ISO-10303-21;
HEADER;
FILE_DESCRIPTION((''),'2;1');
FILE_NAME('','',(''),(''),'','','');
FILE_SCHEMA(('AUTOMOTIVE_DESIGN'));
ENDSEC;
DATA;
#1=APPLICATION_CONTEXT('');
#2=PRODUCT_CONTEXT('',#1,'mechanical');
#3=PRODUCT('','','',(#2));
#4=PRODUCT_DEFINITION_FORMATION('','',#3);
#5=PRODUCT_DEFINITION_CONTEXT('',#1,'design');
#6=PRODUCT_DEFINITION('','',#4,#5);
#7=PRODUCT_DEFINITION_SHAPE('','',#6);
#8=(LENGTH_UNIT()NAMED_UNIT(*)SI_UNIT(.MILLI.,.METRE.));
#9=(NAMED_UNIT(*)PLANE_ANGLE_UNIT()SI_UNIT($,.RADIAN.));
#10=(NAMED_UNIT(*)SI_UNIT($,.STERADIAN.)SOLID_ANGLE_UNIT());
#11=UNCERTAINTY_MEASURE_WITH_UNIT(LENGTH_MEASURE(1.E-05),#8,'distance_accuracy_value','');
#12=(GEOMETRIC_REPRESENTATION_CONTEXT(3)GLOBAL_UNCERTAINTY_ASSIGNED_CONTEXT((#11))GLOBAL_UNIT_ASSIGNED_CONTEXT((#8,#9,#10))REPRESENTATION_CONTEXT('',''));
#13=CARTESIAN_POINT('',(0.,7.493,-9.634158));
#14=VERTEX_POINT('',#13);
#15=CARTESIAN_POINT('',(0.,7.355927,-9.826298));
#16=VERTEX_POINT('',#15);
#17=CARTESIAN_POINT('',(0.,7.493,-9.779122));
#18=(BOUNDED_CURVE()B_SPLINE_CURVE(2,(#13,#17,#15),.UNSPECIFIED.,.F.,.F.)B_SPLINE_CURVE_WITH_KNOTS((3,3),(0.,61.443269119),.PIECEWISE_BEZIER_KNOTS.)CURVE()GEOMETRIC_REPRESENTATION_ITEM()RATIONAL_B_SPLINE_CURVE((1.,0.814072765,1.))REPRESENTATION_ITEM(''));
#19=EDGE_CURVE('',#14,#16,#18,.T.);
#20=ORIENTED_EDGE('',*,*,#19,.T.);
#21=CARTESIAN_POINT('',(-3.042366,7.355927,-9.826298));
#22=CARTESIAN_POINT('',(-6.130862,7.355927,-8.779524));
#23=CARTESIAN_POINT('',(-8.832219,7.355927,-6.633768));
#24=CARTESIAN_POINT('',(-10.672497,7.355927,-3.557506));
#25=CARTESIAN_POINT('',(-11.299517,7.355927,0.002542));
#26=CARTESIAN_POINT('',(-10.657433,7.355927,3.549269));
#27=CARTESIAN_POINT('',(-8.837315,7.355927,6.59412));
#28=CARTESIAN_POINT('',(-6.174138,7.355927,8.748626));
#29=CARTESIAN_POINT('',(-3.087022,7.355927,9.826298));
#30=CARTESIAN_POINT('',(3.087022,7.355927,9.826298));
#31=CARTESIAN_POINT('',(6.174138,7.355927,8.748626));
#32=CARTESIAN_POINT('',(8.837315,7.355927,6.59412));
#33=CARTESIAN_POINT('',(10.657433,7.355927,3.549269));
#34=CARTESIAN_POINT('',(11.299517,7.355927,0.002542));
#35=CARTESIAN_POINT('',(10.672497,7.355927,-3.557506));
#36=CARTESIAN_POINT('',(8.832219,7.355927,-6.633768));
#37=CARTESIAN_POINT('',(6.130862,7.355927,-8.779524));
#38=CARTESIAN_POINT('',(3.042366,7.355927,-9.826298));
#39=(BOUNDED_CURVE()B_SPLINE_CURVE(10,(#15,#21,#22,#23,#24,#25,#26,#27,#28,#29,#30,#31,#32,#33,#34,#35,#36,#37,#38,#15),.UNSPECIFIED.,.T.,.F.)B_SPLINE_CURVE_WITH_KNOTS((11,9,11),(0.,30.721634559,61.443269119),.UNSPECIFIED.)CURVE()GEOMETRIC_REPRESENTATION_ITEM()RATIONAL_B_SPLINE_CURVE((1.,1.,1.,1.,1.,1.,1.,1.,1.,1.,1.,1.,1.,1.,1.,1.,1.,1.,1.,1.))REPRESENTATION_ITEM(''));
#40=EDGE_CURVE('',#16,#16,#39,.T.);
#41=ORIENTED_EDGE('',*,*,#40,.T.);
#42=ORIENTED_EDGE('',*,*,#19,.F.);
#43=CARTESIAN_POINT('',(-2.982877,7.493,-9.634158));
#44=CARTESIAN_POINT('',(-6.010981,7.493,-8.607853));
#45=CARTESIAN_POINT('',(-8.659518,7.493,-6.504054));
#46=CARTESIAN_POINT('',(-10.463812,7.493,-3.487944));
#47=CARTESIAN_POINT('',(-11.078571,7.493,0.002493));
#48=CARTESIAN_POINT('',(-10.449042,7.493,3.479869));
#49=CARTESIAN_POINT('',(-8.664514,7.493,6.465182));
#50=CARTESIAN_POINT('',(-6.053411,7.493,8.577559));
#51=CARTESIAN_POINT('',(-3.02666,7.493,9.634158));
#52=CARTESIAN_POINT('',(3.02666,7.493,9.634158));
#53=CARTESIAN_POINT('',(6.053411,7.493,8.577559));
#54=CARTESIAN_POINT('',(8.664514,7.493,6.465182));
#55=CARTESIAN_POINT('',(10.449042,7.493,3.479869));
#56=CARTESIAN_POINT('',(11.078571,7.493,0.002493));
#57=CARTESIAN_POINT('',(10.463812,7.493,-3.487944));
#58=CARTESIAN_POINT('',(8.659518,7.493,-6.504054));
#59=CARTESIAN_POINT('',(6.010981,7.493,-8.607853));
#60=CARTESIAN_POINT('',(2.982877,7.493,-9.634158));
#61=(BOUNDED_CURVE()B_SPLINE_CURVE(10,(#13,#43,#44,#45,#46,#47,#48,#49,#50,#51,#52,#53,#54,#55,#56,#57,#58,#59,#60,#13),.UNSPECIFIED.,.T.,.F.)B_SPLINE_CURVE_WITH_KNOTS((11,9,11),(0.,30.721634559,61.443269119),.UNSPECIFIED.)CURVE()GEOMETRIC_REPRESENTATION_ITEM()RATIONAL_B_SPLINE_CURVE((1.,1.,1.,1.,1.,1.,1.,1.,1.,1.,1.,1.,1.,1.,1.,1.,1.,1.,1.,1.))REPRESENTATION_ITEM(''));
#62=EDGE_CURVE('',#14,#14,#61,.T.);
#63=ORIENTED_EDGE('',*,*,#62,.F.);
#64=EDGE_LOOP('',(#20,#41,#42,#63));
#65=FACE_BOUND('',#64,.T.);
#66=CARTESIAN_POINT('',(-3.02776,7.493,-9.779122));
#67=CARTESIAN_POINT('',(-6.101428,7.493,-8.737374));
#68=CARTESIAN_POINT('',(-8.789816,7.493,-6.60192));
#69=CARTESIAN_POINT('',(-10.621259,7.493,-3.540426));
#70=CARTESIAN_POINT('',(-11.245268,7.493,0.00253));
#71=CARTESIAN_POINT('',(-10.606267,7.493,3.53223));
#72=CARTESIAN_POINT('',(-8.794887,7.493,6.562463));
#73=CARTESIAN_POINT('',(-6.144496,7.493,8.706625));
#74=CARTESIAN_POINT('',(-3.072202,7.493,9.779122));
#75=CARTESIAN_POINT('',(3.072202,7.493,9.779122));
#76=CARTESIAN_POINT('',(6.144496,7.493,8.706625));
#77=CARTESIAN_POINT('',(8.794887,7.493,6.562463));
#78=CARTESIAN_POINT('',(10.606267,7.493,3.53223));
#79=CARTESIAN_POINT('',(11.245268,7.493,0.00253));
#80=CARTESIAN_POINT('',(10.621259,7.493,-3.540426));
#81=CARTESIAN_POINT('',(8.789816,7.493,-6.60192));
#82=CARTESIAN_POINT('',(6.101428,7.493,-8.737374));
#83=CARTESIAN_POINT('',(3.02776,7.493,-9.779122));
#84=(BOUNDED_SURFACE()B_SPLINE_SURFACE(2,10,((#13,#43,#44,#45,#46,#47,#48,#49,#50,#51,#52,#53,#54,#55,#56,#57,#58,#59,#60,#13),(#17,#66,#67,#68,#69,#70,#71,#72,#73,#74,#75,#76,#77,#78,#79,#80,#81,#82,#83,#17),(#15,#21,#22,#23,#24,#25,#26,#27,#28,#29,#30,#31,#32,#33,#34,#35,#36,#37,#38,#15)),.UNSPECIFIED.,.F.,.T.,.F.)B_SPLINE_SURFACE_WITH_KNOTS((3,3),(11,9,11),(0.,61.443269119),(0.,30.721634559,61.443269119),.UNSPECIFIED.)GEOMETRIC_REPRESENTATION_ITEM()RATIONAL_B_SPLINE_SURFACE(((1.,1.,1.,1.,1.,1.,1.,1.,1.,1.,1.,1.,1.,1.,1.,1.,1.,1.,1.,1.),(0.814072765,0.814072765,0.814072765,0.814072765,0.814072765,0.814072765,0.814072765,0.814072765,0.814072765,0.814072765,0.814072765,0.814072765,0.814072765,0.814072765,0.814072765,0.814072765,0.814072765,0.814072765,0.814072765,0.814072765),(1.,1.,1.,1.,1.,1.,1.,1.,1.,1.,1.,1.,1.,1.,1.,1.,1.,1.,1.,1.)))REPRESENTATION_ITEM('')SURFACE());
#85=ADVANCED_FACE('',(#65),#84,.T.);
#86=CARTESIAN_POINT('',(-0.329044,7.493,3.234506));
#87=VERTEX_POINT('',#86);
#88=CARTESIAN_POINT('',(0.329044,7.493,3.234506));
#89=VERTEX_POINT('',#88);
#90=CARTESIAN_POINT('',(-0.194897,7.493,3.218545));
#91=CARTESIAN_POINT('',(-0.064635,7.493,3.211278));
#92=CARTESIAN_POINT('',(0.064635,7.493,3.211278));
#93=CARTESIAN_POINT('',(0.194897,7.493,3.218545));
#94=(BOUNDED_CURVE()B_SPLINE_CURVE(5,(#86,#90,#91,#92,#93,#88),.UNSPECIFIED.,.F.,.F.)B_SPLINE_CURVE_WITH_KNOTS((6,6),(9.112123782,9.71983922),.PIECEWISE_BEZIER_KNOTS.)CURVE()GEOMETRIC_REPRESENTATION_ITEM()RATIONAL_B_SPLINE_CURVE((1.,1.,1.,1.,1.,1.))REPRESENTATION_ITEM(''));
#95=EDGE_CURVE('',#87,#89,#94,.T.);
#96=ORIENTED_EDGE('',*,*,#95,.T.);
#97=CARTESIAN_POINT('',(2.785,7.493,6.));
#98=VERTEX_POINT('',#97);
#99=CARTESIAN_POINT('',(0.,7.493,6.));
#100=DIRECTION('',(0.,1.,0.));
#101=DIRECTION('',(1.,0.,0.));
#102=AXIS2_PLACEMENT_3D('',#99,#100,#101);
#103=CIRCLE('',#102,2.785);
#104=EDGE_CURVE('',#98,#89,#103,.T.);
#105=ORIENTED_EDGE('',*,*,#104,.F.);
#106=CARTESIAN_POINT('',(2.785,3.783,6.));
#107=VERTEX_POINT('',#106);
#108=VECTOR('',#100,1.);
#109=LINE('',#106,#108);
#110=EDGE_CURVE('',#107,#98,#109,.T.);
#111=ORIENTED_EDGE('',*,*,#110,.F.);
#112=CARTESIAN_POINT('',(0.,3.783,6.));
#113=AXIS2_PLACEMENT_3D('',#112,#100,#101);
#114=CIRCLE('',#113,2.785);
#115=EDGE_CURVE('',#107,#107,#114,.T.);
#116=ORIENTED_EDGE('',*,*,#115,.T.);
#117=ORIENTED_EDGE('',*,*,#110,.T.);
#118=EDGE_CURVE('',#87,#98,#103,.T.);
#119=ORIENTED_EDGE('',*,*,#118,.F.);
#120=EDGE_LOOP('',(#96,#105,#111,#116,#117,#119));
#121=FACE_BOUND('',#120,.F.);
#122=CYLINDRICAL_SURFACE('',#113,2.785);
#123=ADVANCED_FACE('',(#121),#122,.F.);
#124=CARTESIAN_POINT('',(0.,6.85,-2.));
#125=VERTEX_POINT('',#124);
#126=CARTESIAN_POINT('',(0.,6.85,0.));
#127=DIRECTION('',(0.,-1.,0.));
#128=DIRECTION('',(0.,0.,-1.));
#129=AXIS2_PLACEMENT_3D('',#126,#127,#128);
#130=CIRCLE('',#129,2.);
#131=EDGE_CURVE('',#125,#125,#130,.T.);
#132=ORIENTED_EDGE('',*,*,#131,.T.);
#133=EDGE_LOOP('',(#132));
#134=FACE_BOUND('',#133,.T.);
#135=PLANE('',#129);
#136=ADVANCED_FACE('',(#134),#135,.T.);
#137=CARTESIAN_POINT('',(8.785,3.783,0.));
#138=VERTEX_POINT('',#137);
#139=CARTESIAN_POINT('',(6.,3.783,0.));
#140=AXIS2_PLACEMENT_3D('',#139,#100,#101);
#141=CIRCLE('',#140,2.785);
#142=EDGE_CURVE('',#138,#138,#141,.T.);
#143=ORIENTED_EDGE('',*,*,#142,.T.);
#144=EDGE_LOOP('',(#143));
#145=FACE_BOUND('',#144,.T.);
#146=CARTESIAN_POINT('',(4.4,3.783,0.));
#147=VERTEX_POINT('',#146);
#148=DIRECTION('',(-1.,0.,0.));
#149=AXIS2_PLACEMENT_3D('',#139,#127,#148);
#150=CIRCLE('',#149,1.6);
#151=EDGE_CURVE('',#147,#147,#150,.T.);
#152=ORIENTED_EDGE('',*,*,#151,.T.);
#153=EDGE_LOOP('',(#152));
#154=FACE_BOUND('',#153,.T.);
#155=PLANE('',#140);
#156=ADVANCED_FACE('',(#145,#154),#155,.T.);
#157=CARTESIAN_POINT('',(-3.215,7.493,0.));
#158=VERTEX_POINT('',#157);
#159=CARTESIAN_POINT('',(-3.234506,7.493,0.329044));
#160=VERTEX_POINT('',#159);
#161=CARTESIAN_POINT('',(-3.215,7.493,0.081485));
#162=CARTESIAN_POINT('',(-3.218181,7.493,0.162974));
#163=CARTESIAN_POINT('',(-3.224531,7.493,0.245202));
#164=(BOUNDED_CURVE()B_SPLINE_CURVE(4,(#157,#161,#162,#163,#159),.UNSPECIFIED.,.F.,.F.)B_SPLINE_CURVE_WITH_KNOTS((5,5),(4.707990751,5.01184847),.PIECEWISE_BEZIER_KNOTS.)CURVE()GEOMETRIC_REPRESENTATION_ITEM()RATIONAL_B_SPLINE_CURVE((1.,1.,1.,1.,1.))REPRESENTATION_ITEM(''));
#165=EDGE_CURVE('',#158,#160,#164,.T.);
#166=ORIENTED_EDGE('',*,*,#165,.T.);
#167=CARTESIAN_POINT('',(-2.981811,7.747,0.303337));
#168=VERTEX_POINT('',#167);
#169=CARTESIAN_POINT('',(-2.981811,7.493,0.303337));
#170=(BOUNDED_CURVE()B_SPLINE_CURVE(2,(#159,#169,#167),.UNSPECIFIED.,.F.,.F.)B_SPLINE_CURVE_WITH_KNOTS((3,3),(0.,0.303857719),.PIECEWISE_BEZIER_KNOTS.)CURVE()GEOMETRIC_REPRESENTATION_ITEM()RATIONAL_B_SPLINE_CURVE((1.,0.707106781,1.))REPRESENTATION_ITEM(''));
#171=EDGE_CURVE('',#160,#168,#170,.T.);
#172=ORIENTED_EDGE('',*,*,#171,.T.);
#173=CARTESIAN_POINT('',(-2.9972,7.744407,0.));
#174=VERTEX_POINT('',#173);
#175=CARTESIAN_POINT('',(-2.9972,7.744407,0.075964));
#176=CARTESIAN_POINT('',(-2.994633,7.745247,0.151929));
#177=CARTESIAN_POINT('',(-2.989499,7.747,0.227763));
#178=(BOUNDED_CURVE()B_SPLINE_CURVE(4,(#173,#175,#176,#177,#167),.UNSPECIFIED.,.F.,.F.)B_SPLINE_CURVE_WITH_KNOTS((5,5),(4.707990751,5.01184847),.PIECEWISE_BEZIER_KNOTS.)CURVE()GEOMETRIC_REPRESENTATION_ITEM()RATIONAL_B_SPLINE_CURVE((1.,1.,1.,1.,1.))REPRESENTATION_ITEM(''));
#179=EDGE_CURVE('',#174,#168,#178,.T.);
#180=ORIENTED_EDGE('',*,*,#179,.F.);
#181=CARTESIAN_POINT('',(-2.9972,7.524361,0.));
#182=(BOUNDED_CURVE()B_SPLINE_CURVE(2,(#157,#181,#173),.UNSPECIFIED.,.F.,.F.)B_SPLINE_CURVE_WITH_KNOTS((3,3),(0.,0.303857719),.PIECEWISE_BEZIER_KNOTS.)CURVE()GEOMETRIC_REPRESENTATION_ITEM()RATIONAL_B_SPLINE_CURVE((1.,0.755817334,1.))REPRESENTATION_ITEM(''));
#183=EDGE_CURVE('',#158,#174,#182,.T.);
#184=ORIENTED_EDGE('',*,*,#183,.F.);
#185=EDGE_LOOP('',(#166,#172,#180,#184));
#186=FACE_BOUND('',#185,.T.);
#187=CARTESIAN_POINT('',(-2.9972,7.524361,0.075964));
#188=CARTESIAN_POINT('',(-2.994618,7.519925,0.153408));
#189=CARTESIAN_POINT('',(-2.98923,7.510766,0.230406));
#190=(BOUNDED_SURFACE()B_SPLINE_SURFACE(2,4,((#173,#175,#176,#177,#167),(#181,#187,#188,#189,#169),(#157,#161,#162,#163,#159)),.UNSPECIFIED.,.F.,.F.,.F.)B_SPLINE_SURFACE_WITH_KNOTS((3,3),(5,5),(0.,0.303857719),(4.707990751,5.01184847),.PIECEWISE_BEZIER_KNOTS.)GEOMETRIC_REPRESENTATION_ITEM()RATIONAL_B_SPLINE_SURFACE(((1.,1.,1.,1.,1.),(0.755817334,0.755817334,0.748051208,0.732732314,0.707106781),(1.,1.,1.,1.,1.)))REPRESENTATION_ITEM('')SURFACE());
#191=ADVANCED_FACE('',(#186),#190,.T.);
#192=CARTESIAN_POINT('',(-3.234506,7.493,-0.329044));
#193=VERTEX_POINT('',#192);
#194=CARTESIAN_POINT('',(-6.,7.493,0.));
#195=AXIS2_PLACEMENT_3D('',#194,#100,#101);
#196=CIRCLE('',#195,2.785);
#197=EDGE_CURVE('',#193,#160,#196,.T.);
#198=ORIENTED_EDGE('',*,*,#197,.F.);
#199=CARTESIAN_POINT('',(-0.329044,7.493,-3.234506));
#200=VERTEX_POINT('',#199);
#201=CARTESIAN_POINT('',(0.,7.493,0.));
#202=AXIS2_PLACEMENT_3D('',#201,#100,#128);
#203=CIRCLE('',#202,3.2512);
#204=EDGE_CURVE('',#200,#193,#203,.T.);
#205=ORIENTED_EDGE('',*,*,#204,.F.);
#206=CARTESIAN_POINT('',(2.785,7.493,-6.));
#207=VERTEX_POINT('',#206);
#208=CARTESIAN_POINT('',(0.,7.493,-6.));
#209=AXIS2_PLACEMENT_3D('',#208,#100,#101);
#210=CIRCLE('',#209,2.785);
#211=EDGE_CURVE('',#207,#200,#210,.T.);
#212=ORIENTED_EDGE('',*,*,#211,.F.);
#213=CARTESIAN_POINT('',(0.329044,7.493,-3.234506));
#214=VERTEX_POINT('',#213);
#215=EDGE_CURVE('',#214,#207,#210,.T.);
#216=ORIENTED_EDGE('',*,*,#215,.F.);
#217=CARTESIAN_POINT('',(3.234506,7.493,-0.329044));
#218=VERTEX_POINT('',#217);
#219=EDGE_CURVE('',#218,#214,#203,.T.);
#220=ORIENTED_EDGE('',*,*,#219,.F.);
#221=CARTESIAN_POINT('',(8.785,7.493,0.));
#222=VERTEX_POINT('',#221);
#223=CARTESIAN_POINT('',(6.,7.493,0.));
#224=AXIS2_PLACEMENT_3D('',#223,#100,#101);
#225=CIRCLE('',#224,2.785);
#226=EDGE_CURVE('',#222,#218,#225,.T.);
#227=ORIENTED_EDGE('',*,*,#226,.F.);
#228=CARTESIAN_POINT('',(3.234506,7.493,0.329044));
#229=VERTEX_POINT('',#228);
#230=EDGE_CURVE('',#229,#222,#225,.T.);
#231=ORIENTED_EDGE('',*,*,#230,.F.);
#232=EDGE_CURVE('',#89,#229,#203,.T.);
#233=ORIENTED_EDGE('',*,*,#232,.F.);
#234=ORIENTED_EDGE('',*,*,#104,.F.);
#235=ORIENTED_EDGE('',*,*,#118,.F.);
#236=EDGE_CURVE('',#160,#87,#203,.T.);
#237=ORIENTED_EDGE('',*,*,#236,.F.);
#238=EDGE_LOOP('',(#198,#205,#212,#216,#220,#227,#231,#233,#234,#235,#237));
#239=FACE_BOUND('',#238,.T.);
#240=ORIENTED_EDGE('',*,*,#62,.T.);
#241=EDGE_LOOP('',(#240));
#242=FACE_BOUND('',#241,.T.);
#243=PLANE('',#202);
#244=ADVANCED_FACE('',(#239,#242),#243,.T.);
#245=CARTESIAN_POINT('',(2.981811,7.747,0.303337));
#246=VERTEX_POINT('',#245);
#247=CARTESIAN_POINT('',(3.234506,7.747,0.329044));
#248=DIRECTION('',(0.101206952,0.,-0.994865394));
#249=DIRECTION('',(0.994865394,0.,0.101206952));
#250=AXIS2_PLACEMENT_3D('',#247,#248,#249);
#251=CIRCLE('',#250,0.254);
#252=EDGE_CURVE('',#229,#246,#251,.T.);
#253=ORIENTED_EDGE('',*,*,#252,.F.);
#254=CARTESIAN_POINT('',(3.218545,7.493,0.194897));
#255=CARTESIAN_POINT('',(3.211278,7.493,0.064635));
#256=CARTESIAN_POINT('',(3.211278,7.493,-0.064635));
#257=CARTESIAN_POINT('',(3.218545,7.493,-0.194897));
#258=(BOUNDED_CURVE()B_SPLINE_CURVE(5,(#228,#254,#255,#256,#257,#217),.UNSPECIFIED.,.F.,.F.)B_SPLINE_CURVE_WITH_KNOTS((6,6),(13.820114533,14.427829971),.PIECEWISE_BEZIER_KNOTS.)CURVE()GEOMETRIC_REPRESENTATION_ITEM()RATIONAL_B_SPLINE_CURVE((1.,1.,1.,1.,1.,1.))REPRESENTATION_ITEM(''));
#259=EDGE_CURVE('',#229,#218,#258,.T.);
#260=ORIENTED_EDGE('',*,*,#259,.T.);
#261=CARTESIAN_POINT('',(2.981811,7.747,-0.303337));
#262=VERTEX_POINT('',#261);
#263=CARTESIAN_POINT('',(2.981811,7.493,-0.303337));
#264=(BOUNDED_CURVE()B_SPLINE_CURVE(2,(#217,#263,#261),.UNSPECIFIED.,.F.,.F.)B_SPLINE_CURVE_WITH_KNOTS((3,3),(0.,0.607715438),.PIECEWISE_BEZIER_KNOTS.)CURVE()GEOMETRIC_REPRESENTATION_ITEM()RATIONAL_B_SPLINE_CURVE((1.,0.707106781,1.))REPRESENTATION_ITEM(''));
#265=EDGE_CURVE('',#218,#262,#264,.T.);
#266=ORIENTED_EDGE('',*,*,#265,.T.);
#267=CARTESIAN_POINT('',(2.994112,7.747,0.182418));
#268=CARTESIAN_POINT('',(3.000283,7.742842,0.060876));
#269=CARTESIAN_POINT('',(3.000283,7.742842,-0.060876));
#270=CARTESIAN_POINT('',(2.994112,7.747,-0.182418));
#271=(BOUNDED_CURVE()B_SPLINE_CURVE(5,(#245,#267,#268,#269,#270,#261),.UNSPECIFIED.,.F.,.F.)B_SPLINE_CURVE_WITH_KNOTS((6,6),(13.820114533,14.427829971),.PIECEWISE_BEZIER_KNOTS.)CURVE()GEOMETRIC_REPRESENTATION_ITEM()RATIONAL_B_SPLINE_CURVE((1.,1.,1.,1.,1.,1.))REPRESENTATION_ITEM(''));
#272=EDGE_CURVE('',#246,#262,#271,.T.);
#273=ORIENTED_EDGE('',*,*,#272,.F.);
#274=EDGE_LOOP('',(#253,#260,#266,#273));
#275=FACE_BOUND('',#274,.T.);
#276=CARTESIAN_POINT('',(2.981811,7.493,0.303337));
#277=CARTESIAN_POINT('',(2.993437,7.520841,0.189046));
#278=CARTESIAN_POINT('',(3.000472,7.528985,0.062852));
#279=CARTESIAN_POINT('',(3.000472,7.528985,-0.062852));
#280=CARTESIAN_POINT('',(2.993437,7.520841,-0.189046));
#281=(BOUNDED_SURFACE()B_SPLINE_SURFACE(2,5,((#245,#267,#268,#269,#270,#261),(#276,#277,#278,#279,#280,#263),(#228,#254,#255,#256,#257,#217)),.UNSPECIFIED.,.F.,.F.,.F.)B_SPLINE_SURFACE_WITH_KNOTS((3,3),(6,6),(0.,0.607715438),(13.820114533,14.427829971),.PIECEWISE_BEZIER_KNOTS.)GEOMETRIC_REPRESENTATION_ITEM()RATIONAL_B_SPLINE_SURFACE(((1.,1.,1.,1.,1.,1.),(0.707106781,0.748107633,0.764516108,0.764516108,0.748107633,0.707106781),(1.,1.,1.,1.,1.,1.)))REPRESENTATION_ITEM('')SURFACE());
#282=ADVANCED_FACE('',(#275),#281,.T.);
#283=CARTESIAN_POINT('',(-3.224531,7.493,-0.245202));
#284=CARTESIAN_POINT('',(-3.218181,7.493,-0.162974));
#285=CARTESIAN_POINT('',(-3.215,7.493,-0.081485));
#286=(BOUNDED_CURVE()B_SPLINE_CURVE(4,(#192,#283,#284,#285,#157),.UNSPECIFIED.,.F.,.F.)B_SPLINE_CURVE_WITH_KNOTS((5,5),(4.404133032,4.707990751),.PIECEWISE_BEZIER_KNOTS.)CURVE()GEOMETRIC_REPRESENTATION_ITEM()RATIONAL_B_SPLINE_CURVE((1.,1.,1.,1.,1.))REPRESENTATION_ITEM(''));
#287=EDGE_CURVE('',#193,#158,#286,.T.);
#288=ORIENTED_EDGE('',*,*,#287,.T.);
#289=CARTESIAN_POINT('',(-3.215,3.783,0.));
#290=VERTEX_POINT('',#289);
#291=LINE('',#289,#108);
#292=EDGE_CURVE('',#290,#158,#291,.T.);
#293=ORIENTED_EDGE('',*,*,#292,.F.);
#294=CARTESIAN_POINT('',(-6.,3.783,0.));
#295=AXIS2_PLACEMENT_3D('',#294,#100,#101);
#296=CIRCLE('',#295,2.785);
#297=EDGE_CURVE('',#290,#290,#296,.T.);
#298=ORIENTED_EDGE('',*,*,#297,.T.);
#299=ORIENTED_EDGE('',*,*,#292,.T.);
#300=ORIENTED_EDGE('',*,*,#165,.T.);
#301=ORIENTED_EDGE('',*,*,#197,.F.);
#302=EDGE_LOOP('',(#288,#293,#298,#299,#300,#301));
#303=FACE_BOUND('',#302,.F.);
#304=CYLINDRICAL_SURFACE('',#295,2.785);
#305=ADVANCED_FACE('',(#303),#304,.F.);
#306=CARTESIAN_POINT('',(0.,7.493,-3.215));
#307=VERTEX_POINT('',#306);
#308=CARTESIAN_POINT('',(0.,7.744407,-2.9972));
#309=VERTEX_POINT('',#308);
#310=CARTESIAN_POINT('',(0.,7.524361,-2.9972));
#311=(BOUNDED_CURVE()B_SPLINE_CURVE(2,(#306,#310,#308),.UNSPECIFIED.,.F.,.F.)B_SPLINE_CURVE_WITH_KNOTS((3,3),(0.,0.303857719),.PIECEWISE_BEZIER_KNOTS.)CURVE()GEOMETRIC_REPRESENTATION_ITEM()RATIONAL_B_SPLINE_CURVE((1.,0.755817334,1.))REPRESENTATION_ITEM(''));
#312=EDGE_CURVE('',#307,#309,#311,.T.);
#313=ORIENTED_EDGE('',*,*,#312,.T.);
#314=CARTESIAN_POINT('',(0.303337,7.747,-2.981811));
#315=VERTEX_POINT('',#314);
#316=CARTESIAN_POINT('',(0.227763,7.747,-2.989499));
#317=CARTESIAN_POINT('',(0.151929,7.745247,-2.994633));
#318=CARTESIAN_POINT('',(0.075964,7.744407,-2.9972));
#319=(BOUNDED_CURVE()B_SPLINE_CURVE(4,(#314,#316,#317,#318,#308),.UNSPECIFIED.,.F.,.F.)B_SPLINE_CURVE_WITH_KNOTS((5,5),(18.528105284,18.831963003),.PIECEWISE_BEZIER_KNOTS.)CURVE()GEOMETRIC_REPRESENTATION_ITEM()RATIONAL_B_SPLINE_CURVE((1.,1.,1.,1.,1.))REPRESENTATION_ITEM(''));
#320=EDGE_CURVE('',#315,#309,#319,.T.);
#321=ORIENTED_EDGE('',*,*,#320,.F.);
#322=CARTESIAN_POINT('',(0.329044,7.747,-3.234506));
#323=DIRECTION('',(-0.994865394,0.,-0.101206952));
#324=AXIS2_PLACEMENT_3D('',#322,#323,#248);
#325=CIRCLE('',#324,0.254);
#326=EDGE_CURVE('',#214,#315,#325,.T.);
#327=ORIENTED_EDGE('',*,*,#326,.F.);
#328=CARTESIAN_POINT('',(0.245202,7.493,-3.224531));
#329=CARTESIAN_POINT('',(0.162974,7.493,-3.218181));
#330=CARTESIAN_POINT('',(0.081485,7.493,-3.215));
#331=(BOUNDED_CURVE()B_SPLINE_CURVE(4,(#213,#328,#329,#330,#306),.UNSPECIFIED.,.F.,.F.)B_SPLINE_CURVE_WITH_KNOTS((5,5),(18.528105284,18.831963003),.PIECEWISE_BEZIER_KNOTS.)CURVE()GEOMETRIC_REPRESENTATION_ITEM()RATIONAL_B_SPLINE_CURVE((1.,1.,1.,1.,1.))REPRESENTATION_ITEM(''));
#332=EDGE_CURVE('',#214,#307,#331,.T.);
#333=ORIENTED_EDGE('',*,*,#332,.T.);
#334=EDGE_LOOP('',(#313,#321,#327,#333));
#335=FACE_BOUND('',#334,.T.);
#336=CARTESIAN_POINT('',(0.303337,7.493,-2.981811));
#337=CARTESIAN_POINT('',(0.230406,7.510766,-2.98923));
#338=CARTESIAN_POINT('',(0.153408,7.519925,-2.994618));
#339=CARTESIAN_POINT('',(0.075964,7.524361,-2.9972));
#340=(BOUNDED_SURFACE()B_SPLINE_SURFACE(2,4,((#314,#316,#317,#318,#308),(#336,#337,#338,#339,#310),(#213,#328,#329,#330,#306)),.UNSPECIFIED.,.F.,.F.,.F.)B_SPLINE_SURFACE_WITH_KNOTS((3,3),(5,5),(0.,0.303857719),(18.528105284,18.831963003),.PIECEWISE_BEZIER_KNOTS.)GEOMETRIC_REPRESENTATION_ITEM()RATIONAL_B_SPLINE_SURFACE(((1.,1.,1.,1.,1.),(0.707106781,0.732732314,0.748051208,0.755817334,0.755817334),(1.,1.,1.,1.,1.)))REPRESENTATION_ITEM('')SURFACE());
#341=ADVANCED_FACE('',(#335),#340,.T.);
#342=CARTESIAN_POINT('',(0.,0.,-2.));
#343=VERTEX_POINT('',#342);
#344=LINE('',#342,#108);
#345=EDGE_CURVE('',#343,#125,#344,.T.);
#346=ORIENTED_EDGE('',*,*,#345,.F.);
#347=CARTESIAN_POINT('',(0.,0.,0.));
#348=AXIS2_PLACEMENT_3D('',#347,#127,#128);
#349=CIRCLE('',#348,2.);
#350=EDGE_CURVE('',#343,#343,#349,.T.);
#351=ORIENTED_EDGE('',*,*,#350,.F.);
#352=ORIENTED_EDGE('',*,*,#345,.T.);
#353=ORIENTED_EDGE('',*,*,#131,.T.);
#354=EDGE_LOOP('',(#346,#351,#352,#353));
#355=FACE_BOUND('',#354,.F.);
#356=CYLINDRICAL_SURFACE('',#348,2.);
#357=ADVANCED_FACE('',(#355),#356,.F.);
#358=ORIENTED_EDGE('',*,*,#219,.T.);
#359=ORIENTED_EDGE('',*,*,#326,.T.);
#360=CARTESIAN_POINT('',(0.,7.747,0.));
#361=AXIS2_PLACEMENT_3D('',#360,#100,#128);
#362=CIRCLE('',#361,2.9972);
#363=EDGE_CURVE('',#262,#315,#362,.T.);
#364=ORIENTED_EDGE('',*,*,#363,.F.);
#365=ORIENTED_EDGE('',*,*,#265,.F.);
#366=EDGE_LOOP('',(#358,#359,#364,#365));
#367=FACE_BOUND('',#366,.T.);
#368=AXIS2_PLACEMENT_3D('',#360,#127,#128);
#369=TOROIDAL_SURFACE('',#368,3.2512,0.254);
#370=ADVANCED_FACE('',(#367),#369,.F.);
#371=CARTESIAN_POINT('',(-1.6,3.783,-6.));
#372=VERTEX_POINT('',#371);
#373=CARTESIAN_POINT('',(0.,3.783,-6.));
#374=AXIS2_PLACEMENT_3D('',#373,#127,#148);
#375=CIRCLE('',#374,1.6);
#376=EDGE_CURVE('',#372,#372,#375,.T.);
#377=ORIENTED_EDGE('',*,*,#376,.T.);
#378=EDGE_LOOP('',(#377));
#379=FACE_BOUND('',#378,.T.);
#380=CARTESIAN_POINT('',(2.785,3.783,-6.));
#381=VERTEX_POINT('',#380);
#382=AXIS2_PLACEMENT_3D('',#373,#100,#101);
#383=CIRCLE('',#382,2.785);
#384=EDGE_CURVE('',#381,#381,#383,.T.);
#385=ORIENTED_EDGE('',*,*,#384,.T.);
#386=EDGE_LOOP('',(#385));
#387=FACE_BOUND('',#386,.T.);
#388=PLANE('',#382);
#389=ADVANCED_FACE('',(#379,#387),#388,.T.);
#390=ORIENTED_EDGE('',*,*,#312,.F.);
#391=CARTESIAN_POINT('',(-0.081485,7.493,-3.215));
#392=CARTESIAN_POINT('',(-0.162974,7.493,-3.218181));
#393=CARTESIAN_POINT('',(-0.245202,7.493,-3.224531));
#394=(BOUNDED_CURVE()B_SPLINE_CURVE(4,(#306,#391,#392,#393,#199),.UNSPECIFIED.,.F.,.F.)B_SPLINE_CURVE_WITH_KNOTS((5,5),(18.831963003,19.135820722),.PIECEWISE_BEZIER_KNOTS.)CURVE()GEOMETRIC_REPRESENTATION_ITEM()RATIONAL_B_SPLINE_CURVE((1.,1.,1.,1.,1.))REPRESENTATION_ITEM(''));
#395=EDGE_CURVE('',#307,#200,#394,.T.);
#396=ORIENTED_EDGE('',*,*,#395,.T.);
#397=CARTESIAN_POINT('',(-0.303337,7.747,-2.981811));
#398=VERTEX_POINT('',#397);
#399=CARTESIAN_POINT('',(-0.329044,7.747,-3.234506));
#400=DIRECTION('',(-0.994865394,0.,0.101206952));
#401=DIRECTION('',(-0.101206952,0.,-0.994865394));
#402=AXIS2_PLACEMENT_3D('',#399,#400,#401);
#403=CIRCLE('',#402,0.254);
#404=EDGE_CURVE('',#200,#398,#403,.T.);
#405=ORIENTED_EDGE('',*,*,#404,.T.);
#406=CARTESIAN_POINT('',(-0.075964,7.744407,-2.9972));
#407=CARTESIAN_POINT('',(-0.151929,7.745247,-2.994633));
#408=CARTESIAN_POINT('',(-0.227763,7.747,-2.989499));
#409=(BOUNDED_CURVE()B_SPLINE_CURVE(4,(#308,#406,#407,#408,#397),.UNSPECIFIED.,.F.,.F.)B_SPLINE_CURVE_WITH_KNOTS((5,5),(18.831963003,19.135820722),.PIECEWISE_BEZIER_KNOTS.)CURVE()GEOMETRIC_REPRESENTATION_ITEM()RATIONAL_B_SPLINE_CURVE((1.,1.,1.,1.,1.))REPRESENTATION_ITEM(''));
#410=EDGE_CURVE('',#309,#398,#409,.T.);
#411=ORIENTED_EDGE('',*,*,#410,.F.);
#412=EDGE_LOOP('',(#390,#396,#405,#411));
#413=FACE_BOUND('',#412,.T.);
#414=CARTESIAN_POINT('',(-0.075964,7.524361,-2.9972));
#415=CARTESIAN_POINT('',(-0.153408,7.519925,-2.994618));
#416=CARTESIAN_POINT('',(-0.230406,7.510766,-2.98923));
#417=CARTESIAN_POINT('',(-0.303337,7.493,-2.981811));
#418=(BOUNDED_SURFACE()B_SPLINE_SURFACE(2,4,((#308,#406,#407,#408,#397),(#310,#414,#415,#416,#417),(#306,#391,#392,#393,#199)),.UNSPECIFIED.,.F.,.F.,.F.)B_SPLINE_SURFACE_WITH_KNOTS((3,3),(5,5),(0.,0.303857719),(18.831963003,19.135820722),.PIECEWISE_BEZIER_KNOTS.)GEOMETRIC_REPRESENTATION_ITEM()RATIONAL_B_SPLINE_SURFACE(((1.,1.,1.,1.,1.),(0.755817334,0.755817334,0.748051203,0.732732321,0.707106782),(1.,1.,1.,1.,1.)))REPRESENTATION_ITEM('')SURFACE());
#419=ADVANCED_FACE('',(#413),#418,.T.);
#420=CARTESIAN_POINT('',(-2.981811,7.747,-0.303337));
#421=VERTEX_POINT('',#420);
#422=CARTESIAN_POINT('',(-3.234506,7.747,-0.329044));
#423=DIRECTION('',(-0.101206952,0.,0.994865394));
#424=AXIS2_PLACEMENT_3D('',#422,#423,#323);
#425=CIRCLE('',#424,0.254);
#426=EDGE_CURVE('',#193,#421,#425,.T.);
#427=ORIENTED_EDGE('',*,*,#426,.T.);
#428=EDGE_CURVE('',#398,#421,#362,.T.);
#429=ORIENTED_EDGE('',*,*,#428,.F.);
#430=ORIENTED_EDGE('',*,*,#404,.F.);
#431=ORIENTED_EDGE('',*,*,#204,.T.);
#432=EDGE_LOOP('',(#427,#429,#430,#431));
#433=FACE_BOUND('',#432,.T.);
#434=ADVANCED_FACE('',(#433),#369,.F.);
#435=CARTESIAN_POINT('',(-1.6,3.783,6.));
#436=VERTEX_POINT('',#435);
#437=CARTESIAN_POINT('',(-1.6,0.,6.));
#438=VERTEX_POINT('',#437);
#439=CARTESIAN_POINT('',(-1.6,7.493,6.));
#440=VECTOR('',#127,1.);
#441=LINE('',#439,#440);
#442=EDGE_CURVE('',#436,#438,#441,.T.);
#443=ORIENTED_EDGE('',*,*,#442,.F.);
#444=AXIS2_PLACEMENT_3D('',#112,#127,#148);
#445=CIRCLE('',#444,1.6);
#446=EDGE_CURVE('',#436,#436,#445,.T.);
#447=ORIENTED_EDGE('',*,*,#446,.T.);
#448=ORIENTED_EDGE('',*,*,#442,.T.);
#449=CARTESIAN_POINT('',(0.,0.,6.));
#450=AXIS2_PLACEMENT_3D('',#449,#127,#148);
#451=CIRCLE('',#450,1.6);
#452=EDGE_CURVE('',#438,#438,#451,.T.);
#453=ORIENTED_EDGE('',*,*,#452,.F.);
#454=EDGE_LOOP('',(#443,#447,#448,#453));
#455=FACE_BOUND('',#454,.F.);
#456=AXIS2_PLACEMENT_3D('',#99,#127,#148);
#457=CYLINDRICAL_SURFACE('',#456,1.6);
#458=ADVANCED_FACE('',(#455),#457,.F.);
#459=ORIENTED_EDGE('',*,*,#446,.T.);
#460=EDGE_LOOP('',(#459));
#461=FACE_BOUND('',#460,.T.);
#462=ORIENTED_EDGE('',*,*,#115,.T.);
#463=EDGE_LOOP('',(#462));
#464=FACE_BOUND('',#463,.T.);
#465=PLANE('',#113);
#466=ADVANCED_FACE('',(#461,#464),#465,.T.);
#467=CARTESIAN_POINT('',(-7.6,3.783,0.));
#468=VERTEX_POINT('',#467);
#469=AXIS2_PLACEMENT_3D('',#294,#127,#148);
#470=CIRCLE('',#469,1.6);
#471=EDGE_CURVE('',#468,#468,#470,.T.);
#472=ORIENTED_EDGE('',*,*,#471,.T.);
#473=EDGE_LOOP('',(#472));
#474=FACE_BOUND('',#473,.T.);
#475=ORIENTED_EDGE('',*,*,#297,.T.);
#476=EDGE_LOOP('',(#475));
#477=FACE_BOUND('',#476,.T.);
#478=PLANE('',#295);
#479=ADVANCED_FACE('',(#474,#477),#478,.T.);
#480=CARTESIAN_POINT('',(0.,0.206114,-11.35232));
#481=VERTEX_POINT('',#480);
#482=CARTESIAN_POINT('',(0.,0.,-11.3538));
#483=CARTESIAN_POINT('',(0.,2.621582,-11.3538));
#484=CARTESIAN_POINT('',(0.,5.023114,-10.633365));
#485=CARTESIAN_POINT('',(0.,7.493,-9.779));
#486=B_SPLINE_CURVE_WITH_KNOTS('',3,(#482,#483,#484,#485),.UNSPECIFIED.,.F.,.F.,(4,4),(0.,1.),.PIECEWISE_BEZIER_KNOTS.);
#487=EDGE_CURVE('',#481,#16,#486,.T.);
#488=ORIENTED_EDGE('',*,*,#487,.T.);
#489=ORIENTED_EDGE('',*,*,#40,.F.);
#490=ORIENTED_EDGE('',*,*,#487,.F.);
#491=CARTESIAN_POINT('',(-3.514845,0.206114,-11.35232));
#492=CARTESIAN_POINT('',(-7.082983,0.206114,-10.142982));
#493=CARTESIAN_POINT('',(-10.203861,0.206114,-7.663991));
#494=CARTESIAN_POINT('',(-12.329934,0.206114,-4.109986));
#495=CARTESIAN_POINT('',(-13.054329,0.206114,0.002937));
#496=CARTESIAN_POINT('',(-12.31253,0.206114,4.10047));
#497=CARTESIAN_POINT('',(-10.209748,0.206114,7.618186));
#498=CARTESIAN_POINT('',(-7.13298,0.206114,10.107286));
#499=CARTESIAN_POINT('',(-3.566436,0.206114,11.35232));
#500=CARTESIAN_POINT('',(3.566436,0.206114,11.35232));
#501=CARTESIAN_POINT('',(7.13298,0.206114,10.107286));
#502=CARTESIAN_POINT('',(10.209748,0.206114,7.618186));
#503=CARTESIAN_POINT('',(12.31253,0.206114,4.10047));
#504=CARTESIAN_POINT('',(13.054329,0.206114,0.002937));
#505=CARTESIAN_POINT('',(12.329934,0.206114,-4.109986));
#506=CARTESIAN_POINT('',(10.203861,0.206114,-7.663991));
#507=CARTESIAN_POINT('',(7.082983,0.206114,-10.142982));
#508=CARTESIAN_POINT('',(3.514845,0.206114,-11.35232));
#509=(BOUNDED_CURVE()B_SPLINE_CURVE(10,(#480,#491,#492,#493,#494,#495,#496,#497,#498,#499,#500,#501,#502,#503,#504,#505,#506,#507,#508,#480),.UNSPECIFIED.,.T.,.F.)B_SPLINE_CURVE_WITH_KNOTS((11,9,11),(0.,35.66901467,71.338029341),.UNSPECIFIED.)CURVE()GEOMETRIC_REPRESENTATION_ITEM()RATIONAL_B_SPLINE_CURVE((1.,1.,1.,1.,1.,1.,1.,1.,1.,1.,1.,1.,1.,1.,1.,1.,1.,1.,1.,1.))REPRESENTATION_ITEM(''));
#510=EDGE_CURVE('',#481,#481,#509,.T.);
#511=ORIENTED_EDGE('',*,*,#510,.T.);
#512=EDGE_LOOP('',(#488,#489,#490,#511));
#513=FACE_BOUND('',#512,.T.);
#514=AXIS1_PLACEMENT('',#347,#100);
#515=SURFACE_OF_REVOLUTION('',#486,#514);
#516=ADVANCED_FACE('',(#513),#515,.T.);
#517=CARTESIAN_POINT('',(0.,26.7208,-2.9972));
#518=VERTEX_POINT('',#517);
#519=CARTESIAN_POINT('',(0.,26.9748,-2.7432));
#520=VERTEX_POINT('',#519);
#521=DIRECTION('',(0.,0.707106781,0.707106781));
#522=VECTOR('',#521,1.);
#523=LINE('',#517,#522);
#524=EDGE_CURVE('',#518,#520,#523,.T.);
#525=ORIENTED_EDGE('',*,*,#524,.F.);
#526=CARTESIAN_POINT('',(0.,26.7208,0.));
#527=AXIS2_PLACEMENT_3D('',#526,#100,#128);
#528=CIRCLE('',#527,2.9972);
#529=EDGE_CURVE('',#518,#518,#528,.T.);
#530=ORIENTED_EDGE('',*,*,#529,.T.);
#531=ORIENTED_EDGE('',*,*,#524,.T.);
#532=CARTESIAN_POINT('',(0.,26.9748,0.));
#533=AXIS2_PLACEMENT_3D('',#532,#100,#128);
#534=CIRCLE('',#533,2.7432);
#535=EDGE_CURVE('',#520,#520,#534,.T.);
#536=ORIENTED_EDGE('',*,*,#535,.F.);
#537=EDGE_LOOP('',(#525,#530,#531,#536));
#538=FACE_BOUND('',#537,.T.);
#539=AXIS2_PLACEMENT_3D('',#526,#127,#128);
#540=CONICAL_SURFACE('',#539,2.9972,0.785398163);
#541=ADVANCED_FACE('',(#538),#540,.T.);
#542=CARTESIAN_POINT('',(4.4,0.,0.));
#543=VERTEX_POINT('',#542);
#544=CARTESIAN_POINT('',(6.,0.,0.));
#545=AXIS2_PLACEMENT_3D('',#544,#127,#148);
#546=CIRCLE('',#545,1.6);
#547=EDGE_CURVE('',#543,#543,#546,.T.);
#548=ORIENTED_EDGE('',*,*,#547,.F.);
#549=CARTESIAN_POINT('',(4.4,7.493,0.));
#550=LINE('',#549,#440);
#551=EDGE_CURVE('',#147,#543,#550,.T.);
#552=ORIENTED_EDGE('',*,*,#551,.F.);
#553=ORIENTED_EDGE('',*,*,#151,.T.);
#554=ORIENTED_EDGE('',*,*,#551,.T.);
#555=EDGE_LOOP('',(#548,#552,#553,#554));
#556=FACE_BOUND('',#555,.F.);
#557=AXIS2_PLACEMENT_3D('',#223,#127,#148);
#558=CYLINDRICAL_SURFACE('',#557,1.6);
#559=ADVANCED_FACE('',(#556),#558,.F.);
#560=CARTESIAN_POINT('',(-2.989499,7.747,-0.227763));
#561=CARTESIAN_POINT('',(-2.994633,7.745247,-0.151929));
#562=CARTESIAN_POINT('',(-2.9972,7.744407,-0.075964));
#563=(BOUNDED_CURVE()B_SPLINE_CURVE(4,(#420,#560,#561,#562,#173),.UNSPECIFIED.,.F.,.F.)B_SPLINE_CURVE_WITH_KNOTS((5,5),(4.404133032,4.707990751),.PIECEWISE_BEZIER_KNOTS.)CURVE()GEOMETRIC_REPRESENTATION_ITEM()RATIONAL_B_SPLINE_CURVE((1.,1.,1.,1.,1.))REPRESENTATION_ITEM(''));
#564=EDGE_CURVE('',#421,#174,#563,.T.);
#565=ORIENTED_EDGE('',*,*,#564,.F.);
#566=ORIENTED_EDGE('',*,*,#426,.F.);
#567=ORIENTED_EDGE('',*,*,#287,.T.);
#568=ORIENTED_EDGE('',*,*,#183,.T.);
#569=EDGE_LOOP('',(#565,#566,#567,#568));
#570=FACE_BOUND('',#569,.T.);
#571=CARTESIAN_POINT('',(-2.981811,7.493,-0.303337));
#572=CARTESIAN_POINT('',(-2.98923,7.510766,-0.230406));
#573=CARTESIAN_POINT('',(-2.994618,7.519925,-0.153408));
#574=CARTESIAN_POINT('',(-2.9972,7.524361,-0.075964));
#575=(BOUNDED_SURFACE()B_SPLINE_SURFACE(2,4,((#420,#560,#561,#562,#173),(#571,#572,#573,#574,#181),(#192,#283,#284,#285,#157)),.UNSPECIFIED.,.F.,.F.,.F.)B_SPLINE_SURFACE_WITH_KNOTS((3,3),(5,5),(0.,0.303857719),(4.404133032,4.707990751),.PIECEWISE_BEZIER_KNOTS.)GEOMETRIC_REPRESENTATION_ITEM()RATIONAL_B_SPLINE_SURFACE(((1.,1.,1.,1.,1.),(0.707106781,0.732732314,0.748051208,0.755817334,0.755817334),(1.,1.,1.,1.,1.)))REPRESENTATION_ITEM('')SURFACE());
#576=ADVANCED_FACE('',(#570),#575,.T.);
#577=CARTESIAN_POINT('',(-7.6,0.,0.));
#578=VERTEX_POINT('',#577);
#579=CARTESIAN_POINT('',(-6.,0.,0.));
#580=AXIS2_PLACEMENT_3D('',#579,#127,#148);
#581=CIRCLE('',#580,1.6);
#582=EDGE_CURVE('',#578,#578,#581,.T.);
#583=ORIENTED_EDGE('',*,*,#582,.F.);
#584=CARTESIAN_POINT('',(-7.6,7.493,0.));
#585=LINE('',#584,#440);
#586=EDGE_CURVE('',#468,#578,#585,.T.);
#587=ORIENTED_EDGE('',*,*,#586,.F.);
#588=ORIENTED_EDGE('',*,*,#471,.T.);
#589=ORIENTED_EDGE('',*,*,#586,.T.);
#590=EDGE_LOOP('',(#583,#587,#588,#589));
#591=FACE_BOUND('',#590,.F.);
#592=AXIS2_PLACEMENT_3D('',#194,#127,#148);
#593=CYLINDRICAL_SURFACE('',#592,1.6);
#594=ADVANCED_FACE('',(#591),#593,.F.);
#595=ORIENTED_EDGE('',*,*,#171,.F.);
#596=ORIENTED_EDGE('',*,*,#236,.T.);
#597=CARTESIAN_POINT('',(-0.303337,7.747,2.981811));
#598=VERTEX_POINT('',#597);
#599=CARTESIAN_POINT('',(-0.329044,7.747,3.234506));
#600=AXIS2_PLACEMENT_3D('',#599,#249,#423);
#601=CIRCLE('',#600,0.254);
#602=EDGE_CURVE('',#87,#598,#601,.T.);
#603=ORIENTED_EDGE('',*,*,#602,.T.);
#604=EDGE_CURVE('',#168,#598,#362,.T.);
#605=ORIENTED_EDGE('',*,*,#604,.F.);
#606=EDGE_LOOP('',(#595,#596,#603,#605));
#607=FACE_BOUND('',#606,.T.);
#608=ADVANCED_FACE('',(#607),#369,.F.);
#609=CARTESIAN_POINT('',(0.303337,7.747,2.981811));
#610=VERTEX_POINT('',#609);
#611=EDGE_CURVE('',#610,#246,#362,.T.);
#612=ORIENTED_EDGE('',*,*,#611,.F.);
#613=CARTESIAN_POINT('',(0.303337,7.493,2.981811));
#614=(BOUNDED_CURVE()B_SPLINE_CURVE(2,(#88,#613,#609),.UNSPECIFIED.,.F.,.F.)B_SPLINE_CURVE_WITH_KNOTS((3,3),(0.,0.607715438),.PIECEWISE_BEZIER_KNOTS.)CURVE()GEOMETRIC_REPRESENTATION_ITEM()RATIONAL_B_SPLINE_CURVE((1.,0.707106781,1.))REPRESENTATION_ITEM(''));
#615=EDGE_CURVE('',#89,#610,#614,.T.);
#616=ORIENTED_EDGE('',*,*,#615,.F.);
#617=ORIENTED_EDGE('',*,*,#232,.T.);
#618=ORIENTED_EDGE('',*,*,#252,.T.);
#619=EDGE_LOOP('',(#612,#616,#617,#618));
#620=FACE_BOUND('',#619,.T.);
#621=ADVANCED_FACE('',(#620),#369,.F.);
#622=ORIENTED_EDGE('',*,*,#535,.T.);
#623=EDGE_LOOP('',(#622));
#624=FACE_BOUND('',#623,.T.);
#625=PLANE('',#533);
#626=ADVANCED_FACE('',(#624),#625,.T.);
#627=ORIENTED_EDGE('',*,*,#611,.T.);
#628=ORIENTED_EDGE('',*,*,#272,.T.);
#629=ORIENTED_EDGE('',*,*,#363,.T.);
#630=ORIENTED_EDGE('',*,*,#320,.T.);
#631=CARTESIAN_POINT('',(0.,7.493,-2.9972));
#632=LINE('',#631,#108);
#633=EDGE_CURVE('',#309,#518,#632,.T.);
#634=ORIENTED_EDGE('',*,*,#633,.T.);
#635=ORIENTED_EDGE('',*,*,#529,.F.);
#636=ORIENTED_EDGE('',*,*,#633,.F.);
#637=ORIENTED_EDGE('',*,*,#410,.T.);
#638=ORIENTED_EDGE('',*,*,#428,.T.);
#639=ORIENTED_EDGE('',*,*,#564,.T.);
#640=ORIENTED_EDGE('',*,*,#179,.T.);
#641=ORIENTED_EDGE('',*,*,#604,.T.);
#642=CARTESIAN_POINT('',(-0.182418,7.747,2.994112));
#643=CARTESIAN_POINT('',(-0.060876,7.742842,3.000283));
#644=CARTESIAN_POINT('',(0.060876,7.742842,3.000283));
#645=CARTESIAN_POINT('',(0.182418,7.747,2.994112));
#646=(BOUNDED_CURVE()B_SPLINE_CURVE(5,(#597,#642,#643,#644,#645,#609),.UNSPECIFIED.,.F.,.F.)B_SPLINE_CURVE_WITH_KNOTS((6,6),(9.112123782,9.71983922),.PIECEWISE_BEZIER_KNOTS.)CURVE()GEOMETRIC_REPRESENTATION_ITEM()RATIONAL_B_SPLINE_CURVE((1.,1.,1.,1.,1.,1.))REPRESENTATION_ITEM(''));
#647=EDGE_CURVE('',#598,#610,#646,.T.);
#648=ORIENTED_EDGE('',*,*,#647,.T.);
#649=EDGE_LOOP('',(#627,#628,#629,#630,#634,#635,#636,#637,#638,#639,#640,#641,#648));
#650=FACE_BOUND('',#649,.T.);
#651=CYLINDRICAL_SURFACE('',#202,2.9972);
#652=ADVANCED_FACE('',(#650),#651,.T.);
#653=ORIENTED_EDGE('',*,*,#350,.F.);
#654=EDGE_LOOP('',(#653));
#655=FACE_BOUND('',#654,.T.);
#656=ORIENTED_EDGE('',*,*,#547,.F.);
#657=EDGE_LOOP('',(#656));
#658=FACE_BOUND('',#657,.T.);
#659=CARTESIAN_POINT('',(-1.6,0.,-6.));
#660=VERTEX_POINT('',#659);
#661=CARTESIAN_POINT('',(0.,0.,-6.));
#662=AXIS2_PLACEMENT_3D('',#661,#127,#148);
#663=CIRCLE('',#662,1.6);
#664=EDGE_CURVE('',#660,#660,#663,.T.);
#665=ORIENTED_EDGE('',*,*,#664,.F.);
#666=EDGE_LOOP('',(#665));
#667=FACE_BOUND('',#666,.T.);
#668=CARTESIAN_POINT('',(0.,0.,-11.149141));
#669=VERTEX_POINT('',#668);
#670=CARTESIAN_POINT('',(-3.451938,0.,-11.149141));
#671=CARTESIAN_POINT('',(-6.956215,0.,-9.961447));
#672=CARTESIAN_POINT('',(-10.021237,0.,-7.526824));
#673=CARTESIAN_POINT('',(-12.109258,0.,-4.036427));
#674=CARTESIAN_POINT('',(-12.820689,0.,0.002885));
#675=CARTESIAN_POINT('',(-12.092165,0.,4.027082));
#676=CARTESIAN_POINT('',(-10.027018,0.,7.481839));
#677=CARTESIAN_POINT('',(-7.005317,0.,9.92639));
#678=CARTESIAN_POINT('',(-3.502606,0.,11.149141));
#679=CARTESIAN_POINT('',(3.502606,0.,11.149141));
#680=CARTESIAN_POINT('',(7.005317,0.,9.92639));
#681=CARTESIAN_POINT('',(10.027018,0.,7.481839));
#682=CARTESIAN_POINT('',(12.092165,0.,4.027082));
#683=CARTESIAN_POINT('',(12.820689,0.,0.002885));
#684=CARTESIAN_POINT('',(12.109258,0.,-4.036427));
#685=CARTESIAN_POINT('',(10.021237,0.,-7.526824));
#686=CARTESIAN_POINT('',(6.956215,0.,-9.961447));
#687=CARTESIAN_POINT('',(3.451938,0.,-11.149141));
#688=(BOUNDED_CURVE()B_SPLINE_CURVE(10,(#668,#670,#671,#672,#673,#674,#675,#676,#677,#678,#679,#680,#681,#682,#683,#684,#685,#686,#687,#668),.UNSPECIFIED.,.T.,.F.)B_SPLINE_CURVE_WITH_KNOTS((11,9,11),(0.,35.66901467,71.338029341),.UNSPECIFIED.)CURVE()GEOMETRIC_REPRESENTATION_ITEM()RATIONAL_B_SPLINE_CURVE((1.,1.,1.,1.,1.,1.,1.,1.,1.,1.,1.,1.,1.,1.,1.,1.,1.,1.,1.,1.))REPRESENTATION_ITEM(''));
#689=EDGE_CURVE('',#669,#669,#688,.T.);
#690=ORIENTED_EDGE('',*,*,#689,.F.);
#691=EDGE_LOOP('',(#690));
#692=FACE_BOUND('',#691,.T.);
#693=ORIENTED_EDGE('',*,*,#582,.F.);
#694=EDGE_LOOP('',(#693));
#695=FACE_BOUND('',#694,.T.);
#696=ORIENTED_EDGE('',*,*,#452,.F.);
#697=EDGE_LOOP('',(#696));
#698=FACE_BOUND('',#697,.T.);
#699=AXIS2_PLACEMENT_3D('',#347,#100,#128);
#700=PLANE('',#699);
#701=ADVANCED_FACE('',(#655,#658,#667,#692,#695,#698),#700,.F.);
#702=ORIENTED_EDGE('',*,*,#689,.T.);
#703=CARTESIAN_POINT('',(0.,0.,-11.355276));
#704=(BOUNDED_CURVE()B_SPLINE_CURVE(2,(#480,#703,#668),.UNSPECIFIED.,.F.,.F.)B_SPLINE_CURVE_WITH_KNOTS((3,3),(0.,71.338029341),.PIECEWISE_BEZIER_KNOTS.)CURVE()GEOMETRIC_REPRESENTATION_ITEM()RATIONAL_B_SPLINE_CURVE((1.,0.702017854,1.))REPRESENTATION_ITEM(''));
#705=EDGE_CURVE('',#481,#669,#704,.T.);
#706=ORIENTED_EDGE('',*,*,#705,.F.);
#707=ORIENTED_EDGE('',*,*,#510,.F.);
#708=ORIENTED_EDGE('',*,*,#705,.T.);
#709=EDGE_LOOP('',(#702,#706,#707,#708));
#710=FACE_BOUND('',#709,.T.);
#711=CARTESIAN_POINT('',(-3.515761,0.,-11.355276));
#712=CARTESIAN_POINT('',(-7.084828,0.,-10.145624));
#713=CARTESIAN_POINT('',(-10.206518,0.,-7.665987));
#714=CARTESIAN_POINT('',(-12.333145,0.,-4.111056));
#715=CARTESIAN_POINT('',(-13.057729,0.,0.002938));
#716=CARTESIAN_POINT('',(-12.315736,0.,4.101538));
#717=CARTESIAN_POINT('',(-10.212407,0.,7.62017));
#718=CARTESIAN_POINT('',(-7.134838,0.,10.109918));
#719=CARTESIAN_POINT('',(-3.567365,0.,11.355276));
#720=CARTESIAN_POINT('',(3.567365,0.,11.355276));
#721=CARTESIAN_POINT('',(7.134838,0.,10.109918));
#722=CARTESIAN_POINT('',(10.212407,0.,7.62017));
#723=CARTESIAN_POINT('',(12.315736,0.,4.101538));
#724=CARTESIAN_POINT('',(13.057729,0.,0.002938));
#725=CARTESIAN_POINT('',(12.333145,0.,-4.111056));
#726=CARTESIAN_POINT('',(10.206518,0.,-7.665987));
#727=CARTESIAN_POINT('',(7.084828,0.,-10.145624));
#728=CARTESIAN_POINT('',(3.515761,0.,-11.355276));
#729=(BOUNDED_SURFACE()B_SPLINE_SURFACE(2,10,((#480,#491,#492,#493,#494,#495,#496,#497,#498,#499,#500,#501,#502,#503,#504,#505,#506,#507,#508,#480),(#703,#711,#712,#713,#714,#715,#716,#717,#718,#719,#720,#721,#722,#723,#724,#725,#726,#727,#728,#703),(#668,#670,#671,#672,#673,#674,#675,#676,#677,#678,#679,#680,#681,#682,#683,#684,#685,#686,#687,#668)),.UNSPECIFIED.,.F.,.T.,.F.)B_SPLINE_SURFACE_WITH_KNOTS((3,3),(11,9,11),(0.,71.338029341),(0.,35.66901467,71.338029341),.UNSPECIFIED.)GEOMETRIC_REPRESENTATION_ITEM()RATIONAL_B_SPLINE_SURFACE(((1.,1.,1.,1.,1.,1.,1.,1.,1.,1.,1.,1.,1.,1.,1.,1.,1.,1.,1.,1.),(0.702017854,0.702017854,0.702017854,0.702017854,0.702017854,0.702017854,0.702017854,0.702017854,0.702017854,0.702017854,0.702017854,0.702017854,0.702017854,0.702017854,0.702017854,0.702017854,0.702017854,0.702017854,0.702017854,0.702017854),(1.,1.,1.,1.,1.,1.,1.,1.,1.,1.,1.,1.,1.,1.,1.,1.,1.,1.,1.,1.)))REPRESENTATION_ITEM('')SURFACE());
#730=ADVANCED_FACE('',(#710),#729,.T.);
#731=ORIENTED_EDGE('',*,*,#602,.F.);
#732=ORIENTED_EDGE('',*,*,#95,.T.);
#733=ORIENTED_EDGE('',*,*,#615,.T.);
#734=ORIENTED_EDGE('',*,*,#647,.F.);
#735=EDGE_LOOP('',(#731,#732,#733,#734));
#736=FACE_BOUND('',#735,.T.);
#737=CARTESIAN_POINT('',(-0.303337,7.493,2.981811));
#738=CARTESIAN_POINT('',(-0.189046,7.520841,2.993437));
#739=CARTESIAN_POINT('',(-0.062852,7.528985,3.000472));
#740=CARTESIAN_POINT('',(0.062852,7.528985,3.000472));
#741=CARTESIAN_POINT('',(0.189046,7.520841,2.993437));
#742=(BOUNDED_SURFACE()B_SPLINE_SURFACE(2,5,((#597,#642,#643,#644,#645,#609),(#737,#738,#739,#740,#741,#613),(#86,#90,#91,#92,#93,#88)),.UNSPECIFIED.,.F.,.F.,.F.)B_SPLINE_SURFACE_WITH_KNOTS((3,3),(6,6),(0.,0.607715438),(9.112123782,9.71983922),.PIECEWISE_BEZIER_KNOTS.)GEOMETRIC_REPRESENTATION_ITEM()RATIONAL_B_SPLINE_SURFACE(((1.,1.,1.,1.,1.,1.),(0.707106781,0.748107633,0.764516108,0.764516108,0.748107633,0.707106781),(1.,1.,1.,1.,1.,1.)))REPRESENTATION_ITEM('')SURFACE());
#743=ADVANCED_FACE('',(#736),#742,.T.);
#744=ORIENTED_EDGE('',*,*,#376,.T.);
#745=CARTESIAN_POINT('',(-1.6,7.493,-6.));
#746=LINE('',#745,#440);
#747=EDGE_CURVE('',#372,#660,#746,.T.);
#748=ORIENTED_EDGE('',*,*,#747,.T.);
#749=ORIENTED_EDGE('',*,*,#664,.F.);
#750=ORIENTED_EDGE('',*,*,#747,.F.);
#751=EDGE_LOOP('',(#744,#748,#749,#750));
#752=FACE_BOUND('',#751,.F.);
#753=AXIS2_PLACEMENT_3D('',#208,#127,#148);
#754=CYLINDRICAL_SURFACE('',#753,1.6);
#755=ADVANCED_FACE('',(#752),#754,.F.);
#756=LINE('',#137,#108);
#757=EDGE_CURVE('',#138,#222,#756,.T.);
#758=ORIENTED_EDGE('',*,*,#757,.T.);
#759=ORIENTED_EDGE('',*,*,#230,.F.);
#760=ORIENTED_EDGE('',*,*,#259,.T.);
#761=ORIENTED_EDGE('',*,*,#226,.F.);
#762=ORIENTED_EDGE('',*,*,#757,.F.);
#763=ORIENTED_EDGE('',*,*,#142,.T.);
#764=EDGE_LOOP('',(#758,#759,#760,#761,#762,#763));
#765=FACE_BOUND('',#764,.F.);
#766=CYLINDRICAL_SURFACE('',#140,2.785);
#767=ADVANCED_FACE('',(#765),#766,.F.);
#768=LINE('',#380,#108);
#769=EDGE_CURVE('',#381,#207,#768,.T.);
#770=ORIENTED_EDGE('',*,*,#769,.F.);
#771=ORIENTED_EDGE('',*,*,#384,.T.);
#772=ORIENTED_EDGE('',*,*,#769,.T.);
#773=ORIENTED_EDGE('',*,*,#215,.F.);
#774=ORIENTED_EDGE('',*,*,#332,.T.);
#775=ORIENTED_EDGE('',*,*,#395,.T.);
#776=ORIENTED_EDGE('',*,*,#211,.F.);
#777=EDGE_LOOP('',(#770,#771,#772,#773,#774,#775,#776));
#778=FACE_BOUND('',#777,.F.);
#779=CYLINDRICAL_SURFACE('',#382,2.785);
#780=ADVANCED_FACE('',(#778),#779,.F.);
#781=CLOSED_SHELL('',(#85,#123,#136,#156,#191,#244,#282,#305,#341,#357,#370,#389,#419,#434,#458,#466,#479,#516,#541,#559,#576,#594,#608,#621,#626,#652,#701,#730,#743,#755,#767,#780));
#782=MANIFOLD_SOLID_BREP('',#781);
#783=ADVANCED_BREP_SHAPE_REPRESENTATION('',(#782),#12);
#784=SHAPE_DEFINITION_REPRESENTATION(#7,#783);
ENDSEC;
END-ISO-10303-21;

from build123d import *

# Parameters (mm, degrees)
CBORE_FOR_M3_SHCS1_D           = 3.2
CBORE_FOR_M3_SHCS1_CBORE_D     = 5.57
CBORE_FOR_M3_SHCS1_CBORE_DEPTH = 3.71
SKETCH6_R                      = 2
CUT_EXTRUDE1_DEPTH             = 6.85
FILLET1_R                      = 0.254
CHAMFER1_SIZE                  = 0.254
FILLET2_R                      = 0.2032


with BuildPart() as part:
    # Sketch2 → Revolve1 (revolve)
    with BuildSketch(Plane.XY, mode=Mode.PRIVATE) as revolve1_sk:
        with BuildLine():
            Line((0, 0), (11.3538, 0))
            add(Edge.make_bspline(
                [(11.3538, 0), (11.3538, 2.621582021), (10.633364827, 5.02311439), (9.779, 7.493)],
                knots=[0, 0, 0, 0, 1, 1, 1, 1], degree=3))
            Line((9.779, 7.493), (2.9972, 7.493))
            Line((2.9972, 7.493), (2.9972, 26.9748))
            Line((2.9972, 26.9748), (0, 26.9748))
            Line((0, 26.9748), (0, 0))
        make_face()
    revolve(revolve1_sk.sketch.rotate(Axis((0, 0, 0), (0, 1, 0)), 90), axis=Axis((0, 0, 0), (0, 1, 0)))

    # CBORE for M3 SHCS1 (through all)
    with Locations(Plane(origin=(0, 7.493, 0), x_dir=(1, 0, 0), z_dir=(0, 1, 0))):
        with Locations((0, 6), (6, 0), (0, -6), (-6, 0)):
            CounterBoreHole(CBORE_FOR_M3_SHCS1_D / 2, CBORE_FOR_M3_SHCS1_CBORE_D / 2, CBORE_FOR_M3_SHCS1_CBORE_DEPTH)

    # Sketch6 → Cut-Extrude1 (cut)
    with BuildSketch(Plane.XZ):
        with Locations(Location((0, 0, 0), (0, 0, 270))):
            Circle(SKETCH6_R)
    extrude(amount=-CUT_EXTRUDE1_DEPTH, mode=Mode.SUBTRACT)

    # Fillet1
    fillet1_edges = [part.edges().sort_by_distance(p)[0] for p in [
        (0, 7.493, 2.9972),
    ]]
    fillet(fillet1_edges, radius=FILLET1_R)

    # Chamfer1
    chamfer1_edges = [part.edges().sort_by_distance(p)[0] for p in [
        (0, 26.9748, 2.9972),
    ]]
    chamfer(chamfer1_edges, length=CHAMFER1_SIZE)

    # Fillet2
    fillet2_edges = [part.edges().sort_by_distance(p)[0] for p in [
        (0, 0, 11.3538),
        (0, 7.493, 9.779),
    ]]
    fillet(fillet2_edges, radius=FILLET2_R)


solid = part.part
